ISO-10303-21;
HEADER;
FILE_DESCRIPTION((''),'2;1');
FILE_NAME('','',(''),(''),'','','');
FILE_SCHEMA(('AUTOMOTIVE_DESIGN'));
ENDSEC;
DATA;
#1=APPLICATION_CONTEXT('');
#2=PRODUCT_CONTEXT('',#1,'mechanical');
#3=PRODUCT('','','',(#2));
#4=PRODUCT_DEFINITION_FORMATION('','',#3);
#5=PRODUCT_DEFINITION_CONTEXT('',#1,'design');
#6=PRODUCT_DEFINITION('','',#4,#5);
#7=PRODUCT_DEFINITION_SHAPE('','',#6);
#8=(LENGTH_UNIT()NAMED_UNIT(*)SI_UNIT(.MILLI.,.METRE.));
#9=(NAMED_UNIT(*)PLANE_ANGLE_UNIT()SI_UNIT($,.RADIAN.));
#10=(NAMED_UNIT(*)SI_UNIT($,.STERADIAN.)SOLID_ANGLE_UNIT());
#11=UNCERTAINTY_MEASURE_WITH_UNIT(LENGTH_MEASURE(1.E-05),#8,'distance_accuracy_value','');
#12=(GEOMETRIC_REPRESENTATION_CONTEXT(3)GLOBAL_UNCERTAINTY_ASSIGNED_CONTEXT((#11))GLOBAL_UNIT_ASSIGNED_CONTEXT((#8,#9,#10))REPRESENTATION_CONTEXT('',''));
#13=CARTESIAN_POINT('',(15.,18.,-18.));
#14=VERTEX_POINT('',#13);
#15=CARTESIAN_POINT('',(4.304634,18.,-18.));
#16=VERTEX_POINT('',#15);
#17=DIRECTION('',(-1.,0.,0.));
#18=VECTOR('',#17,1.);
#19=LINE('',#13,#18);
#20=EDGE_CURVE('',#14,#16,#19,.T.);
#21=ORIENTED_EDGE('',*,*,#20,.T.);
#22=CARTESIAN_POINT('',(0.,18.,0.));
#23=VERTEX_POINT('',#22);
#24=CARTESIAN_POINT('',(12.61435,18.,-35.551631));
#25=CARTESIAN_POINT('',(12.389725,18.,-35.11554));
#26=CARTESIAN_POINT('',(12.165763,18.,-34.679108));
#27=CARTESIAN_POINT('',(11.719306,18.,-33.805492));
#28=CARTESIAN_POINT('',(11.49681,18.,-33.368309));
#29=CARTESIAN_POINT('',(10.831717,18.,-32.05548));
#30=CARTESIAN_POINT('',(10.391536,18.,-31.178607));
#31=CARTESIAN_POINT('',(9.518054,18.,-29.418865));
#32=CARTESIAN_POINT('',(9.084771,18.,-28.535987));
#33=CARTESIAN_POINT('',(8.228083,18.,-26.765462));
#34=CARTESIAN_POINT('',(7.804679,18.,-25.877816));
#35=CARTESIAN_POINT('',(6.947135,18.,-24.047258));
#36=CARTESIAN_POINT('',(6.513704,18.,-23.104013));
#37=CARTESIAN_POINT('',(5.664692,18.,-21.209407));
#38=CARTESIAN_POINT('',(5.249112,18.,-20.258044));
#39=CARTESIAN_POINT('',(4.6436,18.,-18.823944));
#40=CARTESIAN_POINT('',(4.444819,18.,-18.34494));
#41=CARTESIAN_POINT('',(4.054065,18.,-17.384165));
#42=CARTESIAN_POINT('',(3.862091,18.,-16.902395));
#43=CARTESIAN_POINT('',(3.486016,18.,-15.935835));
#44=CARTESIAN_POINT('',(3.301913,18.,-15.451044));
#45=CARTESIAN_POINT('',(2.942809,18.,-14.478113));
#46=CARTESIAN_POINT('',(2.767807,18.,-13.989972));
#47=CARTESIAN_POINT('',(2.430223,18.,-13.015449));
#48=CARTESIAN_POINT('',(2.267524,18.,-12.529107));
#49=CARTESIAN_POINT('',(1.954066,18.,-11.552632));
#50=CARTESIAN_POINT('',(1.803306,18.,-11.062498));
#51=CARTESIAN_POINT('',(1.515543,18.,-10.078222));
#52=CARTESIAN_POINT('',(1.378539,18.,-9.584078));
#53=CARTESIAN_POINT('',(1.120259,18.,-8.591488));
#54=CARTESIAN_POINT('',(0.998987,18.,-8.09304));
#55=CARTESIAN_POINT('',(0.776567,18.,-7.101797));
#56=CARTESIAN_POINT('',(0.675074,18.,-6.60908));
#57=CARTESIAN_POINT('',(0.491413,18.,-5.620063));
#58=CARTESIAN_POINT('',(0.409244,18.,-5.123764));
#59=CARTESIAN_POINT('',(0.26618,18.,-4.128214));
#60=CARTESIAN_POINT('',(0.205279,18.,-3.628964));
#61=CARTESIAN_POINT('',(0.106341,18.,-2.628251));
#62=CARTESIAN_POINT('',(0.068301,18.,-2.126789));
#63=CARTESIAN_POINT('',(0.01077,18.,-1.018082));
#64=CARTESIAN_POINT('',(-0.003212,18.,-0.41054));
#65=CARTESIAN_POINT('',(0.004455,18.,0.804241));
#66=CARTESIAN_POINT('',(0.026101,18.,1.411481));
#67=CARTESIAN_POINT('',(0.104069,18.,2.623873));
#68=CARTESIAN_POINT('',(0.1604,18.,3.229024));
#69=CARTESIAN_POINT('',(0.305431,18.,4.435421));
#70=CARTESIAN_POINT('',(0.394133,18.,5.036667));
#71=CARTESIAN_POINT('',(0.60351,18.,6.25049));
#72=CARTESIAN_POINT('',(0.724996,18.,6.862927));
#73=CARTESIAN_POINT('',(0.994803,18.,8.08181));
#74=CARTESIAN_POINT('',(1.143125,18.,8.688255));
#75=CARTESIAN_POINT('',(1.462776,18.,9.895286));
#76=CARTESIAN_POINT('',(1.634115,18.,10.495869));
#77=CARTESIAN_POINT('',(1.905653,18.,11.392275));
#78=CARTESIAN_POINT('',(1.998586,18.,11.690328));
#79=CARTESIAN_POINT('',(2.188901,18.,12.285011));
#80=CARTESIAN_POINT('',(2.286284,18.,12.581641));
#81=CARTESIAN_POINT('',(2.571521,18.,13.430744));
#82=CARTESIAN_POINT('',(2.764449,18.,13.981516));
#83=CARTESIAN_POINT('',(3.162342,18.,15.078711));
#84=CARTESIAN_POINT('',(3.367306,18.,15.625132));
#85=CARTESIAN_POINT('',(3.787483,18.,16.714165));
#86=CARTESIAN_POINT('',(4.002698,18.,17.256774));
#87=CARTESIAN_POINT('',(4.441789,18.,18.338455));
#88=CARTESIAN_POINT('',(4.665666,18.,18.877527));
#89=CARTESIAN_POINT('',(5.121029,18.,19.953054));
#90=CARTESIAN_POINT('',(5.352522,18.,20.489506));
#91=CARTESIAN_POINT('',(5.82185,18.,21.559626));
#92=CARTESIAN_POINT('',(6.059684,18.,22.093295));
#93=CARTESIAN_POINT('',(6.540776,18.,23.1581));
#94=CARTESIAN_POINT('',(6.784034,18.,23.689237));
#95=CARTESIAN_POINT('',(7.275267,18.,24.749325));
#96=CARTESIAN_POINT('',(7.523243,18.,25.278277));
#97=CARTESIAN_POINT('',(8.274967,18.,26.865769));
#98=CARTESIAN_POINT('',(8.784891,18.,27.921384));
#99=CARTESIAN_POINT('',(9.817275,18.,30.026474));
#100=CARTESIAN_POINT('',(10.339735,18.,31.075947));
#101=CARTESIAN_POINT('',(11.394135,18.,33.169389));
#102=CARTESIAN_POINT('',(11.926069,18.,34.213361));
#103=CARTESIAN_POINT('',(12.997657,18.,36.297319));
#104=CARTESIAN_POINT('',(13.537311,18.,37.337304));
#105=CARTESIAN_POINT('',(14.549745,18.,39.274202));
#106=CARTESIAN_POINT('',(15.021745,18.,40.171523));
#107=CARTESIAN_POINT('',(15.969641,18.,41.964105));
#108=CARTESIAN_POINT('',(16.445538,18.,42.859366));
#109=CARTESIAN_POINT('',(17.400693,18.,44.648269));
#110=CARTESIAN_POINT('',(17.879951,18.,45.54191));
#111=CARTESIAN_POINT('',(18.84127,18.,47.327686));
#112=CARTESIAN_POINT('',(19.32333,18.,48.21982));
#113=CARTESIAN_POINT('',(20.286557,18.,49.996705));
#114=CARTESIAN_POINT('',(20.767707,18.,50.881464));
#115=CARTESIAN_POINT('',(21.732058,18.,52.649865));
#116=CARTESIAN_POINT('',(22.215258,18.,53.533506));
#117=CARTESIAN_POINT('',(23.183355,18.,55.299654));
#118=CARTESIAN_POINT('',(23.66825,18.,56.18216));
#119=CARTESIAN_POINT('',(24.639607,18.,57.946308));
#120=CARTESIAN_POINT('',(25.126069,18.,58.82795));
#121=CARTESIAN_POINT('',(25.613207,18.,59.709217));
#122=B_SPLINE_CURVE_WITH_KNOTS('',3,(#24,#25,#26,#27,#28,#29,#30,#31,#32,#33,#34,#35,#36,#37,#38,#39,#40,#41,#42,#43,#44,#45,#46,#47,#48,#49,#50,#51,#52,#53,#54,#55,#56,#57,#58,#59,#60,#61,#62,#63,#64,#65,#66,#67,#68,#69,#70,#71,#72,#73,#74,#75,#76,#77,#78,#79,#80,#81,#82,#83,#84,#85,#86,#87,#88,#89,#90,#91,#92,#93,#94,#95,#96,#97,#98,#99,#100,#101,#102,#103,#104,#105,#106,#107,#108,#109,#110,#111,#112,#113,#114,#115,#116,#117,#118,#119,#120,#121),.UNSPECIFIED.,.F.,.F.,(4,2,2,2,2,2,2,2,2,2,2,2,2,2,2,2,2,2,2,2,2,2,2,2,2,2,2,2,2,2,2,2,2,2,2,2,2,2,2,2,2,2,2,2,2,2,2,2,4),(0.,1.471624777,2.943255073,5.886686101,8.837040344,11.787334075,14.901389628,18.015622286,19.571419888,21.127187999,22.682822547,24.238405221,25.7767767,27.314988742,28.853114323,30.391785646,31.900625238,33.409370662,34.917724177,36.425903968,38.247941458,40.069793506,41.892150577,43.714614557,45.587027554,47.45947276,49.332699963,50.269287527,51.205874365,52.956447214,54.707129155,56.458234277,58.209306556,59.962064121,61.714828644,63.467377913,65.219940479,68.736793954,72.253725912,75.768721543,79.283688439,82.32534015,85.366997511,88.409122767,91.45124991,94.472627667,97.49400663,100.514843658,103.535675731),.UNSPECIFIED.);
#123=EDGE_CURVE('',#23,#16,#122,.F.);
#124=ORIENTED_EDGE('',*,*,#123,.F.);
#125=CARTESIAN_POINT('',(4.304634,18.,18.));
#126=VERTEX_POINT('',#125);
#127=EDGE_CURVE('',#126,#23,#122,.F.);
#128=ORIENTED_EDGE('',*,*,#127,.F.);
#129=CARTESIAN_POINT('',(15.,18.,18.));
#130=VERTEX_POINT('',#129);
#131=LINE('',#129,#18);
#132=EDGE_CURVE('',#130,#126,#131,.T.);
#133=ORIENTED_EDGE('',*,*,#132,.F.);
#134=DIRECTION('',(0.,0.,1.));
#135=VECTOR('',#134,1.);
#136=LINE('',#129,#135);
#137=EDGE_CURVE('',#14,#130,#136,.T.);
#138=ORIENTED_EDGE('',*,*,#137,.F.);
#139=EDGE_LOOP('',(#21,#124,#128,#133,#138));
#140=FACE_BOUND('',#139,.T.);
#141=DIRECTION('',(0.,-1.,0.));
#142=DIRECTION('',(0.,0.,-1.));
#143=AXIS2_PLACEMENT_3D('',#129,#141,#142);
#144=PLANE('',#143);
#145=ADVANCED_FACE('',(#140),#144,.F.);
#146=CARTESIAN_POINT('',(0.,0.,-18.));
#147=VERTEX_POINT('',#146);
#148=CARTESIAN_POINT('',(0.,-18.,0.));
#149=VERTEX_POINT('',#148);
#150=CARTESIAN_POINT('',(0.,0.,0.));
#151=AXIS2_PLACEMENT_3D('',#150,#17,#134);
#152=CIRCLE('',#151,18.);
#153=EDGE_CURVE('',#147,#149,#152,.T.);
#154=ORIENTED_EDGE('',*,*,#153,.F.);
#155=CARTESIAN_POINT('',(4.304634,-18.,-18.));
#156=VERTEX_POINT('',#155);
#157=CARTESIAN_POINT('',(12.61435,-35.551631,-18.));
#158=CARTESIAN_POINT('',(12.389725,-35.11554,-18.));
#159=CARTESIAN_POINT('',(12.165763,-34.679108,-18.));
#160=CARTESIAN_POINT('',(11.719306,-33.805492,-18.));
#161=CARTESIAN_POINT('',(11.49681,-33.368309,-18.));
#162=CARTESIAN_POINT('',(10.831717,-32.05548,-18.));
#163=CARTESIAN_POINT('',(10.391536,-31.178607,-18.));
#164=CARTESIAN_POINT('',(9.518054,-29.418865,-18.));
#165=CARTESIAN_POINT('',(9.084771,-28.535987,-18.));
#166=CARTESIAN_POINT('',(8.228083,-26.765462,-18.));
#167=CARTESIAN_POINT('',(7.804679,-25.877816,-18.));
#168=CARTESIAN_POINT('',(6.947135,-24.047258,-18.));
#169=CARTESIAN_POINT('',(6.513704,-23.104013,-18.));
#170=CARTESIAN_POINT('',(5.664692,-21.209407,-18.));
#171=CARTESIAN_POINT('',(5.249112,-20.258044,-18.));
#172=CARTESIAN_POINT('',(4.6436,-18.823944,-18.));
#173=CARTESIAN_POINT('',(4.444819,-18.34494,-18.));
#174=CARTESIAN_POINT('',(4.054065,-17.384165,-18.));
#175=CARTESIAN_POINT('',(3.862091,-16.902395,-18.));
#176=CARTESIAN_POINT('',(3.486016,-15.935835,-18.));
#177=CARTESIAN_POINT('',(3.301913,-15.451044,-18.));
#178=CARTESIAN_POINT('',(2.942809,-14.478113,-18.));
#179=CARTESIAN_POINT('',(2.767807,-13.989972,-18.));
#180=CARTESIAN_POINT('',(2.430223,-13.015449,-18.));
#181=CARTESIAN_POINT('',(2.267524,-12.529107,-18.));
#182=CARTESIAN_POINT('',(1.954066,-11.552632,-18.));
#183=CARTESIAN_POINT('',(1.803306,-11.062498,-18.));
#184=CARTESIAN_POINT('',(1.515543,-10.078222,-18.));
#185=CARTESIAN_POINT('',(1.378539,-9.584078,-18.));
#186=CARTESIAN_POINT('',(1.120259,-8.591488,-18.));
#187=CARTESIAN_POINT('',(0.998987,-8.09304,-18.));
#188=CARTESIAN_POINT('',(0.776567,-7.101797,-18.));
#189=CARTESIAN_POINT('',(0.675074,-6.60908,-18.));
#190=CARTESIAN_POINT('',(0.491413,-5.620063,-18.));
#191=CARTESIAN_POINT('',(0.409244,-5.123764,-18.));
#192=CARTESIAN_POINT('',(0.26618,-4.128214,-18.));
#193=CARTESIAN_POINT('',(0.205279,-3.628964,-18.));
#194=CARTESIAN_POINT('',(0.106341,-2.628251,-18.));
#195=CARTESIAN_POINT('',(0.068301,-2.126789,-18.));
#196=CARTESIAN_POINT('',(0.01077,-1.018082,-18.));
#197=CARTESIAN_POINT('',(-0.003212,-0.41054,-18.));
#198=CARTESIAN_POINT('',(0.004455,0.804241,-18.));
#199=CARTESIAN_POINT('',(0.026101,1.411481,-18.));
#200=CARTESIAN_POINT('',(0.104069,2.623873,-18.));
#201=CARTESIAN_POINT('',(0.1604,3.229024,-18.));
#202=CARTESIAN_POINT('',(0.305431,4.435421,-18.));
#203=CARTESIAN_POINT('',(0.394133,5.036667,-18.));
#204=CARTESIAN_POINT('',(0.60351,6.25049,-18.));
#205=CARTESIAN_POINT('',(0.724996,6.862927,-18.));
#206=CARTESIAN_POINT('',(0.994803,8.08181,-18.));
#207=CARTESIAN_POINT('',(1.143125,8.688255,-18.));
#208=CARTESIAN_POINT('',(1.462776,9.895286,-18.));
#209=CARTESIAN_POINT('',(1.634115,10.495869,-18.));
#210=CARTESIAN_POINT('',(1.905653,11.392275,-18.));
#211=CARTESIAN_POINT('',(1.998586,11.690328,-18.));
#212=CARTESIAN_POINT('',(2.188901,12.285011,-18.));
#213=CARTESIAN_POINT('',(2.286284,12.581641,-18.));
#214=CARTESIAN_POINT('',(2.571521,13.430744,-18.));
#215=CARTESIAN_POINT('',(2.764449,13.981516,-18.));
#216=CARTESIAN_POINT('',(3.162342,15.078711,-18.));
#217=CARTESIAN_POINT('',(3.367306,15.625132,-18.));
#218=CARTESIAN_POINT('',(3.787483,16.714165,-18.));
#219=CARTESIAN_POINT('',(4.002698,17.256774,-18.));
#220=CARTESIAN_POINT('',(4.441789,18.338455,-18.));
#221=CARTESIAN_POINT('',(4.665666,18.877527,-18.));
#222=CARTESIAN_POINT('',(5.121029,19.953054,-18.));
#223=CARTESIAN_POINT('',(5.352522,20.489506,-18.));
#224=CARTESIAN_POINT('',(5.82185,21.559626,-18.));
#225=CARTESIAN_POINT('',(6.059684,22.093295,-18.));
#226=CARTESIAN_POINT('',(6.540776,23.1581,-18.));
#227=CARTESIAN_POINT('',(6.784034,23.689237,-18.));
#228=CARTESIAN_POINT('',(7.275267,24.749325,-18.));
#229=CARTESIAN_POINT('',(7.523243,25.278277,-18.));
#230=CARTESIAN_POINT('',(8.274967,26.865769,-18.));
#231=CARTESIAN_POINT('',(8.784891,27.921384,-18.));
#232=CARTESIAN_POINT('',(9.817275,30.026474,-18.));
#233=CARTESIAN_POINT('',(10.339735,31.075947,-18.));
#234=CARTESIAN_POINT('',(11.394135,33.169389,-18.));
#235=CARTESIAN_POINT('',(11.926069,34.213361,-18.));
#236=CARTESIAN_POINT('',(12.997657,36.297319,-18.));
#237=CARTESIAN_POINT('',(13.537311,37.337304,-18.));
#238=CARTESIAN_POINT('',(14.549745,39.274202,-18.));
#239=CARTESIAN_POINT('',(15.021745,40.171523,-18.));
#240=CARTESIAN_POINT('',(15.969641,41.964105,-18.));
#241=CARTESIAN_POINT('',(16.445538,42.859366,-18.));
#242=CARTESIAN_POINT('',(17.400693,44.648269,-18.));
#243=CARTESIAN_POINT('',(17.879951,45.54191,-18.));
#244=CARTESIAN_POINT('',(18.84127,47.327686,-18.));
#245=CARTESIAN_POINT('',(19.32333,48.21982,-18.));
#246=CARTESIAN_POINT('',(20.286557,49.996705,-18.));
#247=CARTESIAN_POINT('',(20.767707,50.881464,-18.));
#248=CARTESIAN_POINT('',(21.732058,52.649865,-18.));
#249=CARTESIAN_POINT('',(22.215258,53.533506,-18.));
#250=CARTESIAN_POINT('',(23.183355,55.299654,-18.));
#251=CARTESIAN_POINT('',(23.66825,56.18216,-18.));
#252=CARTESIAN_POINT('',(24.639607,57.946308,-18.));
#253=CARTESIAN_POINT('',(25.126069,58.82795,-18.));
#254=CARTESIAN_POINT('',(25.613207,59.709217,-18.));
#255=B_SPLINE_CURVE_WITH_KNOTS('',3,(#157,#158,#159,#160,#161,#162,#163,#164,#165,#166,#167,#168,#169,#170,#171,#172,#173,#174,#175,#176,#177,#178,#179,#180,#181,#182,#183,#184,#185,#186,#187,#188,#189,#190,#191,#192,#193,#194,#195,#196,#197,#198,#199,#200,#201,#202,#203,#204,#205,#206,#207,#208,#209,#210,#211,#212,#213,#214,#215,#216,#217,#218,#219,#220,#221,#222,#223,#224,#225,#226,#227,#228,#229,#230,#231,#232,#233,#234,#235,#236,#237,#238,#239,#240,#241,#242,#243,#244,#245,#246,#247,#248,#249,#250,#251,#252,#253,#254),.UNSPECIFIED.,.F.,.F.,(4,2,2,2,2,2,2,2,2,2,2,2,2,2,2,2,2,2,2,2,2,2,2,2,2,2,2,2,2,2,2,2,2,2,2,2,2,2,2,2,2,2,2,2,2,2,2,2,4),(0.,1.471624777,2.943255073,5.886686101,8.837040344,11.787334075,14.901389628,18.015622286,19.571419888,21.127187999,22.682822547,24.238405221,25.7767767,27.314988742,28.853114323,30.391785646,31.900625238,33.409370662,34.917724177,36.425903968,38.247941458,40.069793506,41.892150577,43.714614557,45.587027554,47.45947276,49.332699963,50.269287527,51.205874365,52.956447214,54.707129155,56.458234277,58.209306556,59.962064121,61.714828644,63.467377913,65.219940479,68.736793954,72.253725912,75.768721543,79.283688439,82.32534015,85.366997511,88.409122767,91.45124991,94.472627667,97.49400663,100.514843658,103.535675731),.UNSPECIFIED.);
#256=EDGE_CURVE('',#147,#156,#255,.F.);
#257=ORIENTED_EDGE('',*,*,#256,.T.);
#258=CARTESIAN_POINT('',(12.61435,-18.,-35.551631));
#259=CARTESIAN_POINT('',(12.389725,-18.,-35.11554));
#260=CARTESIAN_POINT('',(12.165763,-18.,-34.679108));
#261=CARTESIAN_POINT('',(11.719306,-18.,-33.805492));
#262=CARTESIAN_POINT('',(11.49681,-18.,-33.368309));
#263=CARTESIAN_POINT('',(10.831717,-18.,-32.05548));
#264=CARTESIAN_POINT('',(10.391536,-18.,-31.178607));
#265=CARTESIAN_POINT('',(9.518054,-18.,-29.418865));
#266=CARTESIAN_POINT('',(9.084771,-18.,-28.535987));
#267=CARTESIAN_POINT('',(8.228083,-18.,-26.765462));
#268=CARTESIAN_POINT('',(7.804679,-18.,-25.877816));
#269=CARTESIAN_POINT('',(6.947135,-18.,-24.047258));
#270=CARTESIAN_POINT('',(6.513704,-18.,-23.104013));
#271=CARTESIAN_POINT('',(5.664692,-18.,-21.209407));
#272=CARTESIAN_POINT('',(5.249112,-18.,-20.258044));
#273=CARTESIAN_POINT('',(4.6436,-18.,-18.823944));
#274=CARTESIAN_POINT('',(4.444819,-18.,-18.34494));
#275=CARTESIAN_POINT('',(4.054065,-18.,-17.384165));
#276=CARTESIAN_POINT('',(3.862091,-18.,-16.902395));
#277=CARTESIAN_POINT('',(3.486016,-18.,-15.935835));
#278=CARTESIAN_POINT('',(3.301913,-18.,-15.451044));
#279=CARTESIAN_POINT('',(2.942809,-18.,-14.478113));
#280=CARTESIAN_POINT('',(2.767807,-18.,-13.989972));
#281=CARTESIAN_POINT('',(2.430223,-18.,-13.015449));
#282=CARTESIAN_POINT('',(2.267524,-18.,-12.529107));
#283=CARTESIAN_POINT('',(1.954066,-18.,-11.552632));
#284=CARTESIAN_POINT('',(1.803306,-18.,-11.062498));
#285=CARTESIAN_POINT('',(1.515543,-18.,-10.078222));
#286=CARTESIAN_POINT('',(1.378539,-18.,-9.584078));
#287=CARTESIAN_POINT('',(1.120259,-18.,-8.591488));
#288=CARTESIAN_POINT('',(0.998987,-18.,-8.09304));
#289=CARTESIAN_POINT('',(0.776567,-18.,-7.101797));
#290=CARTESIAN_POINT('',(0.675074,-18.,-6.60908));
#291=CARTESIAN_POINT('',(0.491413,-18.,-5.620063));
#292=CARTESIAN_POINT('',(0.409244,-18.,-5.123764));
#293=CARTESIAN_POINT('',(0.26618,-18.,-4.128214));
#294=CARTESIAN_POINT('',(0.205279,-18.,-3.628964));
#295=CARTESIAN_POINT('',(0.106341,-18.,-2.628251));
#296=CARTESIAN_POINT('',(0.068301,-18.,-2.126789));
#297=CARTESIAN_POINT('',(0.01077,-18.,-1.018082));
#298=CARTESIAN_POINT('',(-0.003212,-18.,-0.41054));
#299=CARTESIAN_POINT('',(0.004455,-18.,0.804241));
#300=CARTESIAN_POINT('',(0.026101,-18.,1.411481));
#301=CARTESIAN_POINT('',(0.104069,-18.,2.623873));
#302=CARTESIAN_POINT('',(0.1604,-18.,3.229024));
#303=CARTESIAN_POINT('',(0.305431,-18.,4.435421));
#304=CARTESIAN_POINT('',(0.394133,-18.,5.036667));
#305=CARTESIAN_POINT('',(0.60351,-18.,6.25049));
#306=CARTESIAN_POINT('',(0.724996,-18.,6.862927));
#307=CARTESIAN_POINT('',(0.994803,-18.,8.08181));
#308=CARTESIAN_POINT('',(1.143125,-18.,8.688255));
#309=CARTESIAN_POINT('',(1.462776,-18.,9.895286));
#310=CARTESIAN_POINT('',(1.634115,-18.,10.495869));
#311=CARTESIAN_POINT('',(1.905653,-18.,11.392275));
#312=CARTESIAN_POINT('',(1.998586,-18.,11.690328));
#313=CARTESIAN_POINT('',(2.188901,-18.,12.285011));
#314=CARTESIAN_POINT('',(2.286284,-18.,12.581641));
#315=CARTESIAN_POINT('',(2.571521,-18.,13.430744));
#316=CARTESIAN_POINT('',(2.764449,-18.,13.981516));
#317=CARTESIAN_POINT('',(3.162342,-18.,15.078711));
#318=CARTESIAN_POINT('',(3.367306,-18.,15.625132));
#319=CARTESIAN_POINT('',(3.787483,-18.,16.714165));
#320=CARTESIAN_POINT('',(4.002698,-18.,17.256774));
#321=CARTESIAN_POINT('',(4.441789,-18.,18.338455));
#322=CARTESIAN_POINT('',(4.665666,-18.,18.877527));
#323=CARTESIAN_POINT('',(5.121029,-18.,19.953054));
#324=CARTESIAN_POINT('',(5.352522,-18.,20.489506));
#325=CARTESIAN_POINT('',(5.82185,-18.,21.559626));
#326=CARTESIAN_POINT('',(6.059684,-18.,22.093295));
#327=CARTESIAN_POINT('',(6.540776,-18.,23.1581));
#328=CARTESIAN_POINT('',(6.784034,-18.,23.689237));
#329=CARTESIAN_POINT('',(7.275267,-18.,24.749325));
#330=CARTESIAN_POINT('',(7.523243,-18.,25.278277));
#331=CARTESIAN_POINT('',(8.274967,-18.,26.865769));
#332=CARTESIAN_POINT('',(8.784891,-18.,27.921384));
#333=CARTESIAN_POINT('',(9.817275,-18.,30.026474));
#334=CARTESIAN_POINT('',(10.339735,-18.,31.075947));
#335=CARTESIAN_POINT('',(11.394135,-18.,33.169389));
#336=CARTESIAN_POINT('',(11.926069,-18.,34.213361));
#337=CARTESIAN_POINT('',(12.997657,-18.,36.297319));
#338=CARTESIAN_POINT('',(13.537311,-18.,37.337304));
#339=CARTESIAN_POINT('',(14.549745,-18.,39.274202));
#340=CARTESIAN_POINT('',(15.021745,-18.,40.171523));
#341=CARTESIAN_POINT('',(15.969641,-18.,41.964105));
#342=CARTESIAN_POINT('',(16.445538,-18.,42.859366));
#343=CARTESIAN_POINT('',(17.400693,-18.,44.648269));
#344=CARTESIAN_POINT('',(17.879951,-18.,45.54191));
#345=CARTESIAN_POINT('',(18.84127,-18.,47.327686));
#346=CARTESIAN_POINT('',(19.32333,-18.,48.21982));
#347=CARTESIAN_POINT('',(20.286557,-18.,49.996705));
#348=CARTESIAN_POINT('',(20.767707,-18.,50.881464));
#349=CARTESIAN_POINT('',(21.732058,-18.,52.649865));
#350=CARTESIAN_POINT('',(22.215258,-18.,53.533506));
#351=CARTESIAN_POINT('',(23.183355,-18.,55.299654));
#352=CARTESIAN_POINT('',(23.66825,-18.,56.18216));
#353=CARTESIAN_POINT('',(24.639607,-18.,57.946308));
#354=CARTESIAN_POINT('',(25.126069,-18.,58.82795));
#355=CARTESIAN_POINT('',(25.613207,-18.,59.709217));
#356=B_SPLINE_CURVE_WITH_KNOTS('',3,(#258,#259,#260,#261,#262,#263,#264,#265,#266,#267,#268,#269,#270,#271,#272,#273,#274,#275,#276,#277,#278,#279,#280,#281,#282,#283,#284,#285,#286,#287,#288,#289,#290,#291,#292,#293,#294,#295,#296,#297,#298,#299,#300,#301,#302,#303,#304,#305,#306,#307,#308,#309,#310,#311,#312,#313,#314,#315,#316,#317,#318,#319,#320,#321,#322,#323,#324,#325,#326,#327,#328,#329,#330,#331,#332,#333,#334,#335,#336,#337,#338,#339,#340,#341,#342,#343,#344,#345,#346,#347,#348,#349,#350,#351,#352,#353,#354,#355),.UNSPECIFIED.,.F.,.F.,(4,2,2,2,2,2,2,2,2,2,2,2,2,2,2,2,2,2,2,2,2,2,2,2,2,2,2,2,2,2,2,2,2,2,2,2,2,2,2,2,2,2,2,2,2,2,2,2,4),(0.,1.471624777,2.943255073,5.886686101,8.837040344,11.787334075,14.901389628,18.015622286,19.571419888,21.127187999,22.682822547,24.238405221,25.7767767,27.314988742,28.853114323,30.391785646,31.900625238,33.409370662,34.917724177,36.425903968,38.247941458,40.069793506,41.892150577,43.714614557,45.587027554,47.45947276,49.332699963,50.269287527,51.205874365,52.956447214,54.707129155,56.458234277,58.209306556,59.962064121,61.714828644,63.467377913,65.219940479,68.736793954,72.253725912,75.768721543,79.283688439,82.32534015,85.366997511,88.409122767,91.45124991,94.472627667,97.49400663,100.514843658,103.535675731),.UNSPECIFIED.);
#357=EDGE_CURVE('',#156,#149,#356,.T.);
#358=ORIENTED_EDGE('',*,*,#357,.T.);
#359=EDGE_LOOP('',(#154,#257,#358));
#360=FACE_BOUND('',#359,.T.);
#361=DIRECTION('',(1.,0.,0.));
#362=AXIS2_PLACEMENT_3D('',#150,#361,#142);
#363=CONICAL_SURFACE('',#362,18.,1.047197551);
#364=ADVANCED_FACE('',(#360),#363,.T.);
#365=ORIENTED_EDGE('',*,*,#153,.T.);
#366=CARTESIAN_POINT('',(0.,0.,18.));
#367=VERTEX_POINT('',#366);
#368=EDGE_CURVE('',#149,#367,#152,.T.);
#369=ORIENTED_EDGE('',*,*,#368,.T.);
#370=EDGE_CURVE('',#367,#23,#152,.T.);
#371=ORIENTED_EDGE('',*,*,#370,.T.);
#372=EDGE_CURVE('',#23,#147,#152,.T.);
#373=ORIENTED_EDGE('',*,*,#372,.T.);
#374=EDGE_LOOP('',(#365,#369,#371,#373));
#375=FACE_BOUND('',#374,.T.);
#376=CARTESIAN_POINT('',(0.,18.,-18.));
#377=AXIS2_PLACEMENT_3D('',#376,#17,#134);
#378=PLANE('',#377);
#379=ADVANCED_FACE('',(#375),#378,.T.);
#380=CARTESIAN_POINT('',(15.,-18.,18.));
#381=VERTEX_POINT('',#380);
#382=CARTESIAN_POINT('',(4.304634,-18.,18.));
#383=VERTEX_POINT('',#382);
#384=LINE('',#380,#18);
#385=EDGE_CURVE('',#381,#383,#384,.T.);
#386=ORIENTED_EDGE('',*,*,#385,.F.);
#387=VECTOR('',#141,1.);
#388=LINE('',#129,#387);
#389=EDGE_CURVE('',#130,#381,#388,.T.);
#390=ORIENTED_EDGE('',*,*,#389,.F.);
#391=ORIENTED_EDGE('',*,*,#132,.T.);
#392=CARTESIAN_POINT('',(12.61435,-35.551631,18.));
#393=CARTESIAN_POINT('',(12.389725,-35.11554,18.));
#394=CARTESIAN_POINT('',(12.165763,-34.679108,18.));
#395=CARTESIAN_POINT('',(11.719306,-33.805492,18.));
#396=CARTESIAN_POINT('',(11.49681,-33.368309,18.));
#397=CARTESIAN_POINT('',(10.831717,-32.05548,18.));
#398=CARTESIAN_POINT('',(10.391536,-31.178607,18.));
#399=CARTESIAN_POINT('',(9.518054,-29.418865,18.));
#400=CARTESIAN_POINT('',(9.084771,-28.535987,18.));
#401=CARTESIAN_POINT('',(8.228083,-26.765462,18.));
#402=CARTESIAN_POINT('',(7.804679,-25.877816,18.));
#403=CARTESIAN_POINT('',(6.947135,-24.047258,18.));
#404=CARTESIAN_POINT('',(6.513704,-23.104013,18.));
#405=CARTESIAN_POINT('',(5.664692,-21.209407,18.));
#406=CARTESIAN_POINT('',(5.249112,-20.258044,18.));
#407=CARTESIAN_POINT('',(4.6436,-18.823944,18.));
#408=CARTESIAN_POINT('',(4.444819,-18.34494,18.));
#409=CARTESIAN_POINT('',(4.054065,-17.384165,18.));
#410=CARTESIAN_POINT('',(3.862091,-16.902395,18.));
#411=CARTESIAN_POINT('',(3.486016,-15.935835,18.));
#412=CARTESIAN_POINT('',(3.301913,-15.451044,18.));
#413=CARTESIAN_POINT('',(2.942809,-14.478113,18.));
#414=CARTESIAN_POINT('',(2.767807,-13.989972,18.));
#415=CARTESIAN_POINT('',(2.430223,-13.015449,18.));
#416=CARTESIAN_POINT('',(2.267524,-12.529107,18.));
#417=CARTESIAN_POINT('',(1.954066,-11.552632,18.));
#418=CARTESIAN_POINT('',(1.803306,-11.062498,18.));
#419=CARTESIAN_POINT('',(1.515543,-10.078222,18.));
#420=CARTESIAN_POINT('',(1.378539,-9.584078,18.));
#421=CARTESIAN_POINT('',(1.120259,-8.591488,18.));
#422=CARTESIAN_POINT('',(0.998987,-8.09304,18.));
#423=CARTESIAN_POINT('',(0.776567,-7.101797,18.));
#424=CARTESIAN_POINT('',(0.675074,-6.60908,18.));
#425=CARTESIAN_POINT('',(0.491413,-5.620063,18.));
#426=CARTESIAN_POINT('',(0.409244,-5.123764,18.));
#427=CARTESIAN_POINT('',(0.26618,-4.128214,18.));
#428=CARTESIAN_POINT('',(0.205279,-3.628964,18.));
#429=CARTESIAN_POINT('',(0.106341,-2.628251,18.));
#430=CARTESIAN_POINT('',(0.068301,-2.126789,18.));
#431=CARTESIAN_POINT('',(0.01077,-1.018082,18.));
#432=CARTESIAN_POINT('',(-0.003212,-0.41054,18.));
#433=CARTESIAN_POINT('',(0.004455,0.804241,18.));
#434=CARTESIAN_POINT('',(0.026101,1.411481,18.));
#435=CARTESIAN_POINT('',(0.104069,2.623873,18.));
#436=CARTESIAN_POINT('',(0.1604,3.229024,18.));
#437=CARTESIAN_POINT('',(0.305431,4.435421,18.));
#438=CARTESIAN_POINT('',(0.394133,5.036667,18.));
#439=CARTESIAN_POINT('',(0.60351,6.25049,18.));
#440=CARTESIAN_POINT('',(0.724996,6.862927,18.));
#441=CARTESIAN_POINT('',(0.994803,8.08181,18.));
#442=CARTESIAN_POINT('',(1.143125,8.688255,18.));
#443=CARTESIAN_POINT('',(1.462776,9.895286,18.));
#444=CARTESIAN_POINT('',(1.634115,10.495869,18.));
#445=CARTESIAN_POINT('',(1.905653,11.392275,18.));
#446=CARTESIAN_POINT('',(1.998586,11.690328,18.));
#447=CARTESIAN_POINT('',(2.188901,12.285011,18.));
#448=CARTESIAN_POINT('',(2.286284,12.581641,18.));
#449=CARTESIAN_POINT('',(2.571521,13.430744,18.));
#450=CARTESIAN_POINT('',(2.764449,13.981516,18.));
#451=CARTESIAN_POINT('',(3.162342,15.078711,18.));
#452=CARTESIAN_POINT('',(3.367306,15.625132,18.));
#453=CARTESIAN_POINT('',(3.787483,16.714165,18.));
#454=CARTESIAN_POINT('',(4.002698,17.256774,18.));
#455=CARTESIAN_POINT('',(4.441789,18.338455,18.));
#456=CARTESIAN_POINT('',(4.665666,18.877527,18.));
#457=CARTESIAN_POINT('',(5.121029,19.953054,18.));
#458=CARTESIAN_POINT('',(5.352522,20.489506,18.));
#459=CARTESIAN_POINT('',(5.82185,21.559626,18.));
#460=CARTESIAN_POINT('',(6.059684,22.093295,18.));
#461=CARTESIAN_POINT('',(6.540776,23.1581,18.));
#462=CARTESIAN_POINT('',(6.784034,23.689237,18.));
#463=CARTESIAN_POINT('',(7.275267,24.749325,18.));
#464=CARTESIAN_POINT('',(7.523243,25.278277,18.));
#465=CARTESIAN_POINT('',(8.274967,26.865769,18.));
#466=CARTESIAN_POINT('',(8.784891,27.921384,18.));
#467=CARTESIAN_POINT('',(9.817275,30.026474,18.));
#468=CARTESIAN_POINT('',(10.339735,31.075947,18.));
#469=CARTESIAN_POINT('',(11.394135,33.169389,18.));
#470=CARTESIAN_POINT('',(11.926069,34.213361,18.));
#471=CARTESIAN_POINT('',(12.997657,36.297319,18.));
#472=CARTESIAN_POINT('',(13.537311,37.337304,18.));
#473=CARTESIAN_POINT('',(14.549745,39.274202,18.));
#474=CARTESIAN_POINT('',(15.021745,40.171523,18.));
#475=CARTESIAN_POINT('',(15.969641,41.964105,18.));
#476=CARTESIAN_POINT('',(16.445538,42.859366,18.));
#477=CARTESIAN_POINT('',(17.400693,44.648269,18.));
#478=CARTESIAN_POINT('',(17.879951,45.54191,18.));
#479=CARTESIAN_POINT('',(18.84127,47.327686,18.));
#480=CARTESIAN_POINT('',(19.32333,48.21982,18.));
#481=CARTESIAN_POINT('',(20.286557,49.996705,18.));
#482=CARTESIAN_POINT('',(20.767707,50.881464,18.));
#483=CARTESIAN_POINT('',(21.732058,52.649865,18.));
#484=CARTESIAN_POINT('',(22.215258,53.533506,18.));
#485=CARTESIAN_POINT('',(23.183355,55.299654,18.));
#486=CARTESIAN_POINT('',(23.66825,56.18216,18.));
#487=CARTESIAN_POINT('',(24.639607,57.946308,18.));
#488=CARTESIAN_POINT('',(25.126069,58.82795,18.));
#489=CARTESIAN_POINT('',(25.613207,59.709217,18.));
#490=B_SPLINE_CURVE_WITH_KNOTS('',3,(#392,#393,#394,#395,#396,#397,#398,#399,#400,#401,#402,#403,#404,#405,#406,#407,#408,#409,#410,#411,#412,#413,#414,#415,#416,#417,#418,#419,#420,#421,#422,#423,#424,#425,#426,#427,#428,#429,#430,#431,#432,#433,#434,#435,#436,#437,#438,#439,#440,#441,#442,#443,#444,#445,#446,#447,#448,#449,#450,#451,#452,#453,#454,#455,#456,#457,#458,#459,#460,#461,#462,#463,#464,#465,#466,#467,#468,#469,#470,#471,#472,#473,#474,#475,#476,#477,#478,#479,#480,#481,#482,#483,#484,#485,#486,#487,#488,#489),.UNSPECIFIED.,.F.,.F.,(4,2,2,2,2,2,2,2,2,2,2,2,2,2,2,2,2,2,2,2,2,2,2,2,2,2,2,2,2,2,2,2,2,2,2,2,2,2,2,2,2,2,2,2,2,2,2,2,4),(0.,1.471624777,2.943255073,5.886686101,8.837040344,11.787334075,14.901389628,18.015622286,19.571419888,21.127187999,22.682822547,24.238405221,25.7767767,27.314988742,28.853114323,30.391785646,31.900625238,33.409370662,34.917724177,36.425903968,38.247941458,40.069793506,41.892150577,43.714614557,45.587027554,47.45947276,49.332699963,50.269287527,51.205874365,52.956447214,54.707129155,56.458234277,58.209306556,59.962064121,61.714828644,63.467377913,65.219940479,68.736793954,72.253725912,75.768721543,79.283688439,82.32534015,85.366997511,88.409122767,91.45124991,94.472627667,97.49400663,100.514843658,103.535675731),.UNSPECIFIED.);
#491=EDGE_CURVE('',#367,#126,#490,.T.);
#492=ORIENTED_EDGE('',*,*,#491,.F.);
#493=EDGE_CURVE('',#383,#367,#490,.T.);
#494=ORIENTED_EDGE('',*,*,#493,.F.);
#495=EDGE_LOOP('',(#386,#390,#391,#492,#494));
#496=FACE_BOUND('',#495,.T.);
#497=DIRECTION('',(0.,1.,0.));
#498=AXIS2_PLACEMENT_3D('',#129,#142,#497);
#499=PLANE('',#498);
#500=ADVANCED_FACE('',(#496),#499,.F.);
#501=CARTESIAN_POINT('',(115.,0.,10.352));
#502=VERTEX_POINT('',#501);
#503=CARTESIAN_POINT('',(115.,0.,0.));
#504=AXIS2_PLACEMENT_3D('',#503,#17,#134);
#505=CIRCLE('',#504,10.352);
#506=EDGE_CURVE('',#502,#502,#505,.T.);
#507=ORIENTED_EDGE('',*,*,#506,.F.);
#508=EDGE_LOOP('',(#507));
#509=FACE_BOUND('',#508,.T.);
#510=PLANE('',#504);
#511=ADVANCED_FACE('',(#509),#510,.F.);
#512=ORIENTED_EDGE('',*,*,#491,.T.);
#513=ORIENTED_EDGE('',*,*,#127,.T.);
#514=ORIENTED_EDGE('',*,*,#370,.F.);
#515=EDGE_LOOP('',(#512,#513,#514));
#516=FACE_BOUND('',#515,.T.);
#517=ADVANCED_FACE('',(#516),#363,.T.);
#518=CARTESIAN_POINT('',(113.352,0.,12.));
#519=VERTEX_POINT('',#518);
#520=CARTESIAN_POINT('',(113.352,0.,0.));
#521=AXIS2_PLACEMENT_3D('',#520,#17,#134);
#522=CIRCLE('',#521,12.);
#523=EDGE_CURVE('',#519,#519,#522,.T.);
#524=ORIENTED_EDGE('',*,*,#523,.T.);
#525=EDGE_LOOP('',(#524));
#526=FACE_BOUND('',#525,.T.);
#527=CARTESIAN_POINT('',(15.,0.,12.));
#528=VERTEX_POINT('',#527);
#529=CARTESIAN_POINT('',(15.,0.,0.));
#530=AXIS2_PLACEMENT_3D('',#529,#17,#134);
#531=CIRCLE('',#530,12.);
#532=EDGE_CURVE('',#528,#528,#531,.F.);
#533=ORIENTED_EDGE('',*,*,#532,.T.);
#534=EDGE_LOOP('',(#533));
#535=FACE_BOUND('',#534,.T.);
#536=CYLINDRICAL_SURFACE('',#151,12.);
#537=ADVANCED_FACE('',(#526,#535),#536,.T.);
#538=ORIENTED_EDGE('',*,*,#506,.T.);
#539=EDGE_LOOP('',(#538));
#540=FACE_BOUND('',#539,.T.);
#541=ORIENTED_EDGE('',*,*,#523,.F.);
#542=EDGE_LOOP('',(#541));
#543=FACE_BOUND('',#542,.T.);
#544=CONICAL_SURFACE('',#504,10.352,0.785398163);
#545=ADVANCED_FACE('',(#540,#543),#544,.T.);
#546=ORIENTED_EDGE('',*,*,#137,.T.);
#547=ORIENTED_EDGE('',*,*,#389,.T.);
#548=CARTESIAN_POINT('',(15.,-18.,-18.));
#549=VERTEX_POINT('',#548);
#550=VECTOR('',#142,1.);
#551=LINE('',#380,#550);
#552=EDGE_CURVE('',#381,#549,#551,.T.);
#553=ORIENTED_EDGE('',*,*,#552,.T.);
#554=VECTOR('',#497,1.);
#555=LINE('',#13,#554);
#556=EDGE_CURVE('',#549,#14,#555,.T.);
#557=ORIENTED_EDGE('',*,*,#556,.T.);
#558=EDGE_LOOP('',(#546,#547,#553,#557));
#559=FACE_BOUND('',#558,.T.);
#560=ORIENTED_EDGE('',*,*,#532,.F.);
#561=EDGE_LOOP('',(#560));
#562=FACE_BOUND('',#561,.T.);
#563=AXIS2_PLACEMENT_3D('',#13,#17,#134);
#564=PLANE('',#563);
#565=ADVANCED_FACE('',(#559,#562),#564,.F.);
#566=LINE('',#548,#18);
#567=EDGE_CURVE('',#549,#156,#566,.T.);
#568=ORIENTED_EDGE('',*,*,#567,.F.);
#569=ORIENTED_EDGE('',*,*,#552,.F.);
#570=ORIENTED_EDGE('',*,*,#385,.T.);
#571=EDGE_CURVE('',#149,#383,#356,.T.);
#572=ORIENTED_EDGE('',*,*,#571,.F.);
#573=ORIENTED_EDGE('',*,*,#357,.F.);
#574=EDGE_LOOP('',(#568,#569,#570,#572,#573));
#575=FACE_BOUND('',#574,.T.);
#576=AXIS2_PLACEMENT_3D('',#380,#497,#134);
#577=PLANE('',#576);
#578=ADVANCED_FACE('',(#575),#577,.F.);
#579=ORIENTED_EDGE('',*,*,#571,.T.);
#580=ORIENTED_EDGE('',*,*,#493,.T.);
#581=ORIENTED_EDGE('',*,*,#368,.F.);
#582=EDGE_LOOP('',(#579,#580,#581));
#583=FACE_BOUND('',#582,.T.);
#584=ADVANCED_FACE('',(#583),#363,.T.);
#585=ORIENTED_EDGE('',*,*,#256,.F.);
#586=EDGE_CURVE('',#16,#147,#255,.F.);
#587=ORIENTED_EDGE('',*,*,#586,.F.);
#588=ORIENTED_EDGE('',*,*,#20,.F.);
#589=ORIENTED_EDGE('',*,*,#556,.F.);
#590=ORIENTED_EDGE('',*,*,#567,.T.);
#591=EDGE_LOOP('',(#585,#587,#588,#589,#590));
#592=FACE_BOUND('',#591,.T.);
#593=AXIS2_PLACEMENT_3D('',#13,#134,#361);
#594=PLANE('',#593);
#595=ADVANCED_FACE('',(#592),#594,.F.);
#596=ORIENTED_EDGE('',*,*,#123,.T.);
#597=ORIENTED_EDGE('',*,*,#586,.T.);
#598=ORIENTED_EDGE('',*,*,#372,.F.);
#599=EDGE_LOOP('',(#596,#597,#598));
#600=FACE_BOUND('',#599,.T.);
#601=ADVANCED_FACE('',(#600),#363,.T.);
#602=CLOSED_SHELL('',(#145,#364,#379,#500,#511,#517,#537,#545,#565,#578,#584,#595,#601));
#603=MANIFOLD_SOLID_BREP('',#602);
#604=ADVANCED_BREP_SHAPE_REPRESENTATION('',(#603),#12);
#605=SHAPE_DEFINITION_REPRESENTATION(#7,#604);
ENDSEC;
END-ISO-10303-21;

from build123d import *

# Parameters (mm, degrees)
SKETCH1_W      = 36
SKETCH1_H      = 36
BASEHEAD_DEPTH = 15


with BuildPart() as part:
    # Sketch1 → BaseHead (new body)
    with BuildSketch(Plane(origin=(0, 0, 0), x_dir=(0, 0, -1), z_dir=(1, 0, 0))):
        Rectangle(SKETCH1_W, SKETCH1_H)
    extrude(amount=BASEHEAD_DEPTH)

    # BodySke → BaseBody (revolve)
    with BuildSketch(Plane.XY, mode=Mode.PRIVATE) as basebody_sk:
        Polygon((0, 0), (115, 0), (115, 10.352), (113.352, 12), (0, 12), align=None)
    revolve(basebody_sk.sketch.rotate(Axis((0, 0, 0), (1, 0, 0)), 90), axis=Axis((0, 0, 0), (1, 0, 0)))

    # Sketch3 → HeadChamfer (revolve, cut)
    with BuildSketch(Plane.XY):
        Polygon((0, 18), (5.196152423, 27), (5.196152423, 28), (-1, 28), (-1, 18), align=None)
    revolve(axis=Axis((0, 0, 0), (1, 0, 0)), mode=Mode.SUBTRACT)


solid = part.part
